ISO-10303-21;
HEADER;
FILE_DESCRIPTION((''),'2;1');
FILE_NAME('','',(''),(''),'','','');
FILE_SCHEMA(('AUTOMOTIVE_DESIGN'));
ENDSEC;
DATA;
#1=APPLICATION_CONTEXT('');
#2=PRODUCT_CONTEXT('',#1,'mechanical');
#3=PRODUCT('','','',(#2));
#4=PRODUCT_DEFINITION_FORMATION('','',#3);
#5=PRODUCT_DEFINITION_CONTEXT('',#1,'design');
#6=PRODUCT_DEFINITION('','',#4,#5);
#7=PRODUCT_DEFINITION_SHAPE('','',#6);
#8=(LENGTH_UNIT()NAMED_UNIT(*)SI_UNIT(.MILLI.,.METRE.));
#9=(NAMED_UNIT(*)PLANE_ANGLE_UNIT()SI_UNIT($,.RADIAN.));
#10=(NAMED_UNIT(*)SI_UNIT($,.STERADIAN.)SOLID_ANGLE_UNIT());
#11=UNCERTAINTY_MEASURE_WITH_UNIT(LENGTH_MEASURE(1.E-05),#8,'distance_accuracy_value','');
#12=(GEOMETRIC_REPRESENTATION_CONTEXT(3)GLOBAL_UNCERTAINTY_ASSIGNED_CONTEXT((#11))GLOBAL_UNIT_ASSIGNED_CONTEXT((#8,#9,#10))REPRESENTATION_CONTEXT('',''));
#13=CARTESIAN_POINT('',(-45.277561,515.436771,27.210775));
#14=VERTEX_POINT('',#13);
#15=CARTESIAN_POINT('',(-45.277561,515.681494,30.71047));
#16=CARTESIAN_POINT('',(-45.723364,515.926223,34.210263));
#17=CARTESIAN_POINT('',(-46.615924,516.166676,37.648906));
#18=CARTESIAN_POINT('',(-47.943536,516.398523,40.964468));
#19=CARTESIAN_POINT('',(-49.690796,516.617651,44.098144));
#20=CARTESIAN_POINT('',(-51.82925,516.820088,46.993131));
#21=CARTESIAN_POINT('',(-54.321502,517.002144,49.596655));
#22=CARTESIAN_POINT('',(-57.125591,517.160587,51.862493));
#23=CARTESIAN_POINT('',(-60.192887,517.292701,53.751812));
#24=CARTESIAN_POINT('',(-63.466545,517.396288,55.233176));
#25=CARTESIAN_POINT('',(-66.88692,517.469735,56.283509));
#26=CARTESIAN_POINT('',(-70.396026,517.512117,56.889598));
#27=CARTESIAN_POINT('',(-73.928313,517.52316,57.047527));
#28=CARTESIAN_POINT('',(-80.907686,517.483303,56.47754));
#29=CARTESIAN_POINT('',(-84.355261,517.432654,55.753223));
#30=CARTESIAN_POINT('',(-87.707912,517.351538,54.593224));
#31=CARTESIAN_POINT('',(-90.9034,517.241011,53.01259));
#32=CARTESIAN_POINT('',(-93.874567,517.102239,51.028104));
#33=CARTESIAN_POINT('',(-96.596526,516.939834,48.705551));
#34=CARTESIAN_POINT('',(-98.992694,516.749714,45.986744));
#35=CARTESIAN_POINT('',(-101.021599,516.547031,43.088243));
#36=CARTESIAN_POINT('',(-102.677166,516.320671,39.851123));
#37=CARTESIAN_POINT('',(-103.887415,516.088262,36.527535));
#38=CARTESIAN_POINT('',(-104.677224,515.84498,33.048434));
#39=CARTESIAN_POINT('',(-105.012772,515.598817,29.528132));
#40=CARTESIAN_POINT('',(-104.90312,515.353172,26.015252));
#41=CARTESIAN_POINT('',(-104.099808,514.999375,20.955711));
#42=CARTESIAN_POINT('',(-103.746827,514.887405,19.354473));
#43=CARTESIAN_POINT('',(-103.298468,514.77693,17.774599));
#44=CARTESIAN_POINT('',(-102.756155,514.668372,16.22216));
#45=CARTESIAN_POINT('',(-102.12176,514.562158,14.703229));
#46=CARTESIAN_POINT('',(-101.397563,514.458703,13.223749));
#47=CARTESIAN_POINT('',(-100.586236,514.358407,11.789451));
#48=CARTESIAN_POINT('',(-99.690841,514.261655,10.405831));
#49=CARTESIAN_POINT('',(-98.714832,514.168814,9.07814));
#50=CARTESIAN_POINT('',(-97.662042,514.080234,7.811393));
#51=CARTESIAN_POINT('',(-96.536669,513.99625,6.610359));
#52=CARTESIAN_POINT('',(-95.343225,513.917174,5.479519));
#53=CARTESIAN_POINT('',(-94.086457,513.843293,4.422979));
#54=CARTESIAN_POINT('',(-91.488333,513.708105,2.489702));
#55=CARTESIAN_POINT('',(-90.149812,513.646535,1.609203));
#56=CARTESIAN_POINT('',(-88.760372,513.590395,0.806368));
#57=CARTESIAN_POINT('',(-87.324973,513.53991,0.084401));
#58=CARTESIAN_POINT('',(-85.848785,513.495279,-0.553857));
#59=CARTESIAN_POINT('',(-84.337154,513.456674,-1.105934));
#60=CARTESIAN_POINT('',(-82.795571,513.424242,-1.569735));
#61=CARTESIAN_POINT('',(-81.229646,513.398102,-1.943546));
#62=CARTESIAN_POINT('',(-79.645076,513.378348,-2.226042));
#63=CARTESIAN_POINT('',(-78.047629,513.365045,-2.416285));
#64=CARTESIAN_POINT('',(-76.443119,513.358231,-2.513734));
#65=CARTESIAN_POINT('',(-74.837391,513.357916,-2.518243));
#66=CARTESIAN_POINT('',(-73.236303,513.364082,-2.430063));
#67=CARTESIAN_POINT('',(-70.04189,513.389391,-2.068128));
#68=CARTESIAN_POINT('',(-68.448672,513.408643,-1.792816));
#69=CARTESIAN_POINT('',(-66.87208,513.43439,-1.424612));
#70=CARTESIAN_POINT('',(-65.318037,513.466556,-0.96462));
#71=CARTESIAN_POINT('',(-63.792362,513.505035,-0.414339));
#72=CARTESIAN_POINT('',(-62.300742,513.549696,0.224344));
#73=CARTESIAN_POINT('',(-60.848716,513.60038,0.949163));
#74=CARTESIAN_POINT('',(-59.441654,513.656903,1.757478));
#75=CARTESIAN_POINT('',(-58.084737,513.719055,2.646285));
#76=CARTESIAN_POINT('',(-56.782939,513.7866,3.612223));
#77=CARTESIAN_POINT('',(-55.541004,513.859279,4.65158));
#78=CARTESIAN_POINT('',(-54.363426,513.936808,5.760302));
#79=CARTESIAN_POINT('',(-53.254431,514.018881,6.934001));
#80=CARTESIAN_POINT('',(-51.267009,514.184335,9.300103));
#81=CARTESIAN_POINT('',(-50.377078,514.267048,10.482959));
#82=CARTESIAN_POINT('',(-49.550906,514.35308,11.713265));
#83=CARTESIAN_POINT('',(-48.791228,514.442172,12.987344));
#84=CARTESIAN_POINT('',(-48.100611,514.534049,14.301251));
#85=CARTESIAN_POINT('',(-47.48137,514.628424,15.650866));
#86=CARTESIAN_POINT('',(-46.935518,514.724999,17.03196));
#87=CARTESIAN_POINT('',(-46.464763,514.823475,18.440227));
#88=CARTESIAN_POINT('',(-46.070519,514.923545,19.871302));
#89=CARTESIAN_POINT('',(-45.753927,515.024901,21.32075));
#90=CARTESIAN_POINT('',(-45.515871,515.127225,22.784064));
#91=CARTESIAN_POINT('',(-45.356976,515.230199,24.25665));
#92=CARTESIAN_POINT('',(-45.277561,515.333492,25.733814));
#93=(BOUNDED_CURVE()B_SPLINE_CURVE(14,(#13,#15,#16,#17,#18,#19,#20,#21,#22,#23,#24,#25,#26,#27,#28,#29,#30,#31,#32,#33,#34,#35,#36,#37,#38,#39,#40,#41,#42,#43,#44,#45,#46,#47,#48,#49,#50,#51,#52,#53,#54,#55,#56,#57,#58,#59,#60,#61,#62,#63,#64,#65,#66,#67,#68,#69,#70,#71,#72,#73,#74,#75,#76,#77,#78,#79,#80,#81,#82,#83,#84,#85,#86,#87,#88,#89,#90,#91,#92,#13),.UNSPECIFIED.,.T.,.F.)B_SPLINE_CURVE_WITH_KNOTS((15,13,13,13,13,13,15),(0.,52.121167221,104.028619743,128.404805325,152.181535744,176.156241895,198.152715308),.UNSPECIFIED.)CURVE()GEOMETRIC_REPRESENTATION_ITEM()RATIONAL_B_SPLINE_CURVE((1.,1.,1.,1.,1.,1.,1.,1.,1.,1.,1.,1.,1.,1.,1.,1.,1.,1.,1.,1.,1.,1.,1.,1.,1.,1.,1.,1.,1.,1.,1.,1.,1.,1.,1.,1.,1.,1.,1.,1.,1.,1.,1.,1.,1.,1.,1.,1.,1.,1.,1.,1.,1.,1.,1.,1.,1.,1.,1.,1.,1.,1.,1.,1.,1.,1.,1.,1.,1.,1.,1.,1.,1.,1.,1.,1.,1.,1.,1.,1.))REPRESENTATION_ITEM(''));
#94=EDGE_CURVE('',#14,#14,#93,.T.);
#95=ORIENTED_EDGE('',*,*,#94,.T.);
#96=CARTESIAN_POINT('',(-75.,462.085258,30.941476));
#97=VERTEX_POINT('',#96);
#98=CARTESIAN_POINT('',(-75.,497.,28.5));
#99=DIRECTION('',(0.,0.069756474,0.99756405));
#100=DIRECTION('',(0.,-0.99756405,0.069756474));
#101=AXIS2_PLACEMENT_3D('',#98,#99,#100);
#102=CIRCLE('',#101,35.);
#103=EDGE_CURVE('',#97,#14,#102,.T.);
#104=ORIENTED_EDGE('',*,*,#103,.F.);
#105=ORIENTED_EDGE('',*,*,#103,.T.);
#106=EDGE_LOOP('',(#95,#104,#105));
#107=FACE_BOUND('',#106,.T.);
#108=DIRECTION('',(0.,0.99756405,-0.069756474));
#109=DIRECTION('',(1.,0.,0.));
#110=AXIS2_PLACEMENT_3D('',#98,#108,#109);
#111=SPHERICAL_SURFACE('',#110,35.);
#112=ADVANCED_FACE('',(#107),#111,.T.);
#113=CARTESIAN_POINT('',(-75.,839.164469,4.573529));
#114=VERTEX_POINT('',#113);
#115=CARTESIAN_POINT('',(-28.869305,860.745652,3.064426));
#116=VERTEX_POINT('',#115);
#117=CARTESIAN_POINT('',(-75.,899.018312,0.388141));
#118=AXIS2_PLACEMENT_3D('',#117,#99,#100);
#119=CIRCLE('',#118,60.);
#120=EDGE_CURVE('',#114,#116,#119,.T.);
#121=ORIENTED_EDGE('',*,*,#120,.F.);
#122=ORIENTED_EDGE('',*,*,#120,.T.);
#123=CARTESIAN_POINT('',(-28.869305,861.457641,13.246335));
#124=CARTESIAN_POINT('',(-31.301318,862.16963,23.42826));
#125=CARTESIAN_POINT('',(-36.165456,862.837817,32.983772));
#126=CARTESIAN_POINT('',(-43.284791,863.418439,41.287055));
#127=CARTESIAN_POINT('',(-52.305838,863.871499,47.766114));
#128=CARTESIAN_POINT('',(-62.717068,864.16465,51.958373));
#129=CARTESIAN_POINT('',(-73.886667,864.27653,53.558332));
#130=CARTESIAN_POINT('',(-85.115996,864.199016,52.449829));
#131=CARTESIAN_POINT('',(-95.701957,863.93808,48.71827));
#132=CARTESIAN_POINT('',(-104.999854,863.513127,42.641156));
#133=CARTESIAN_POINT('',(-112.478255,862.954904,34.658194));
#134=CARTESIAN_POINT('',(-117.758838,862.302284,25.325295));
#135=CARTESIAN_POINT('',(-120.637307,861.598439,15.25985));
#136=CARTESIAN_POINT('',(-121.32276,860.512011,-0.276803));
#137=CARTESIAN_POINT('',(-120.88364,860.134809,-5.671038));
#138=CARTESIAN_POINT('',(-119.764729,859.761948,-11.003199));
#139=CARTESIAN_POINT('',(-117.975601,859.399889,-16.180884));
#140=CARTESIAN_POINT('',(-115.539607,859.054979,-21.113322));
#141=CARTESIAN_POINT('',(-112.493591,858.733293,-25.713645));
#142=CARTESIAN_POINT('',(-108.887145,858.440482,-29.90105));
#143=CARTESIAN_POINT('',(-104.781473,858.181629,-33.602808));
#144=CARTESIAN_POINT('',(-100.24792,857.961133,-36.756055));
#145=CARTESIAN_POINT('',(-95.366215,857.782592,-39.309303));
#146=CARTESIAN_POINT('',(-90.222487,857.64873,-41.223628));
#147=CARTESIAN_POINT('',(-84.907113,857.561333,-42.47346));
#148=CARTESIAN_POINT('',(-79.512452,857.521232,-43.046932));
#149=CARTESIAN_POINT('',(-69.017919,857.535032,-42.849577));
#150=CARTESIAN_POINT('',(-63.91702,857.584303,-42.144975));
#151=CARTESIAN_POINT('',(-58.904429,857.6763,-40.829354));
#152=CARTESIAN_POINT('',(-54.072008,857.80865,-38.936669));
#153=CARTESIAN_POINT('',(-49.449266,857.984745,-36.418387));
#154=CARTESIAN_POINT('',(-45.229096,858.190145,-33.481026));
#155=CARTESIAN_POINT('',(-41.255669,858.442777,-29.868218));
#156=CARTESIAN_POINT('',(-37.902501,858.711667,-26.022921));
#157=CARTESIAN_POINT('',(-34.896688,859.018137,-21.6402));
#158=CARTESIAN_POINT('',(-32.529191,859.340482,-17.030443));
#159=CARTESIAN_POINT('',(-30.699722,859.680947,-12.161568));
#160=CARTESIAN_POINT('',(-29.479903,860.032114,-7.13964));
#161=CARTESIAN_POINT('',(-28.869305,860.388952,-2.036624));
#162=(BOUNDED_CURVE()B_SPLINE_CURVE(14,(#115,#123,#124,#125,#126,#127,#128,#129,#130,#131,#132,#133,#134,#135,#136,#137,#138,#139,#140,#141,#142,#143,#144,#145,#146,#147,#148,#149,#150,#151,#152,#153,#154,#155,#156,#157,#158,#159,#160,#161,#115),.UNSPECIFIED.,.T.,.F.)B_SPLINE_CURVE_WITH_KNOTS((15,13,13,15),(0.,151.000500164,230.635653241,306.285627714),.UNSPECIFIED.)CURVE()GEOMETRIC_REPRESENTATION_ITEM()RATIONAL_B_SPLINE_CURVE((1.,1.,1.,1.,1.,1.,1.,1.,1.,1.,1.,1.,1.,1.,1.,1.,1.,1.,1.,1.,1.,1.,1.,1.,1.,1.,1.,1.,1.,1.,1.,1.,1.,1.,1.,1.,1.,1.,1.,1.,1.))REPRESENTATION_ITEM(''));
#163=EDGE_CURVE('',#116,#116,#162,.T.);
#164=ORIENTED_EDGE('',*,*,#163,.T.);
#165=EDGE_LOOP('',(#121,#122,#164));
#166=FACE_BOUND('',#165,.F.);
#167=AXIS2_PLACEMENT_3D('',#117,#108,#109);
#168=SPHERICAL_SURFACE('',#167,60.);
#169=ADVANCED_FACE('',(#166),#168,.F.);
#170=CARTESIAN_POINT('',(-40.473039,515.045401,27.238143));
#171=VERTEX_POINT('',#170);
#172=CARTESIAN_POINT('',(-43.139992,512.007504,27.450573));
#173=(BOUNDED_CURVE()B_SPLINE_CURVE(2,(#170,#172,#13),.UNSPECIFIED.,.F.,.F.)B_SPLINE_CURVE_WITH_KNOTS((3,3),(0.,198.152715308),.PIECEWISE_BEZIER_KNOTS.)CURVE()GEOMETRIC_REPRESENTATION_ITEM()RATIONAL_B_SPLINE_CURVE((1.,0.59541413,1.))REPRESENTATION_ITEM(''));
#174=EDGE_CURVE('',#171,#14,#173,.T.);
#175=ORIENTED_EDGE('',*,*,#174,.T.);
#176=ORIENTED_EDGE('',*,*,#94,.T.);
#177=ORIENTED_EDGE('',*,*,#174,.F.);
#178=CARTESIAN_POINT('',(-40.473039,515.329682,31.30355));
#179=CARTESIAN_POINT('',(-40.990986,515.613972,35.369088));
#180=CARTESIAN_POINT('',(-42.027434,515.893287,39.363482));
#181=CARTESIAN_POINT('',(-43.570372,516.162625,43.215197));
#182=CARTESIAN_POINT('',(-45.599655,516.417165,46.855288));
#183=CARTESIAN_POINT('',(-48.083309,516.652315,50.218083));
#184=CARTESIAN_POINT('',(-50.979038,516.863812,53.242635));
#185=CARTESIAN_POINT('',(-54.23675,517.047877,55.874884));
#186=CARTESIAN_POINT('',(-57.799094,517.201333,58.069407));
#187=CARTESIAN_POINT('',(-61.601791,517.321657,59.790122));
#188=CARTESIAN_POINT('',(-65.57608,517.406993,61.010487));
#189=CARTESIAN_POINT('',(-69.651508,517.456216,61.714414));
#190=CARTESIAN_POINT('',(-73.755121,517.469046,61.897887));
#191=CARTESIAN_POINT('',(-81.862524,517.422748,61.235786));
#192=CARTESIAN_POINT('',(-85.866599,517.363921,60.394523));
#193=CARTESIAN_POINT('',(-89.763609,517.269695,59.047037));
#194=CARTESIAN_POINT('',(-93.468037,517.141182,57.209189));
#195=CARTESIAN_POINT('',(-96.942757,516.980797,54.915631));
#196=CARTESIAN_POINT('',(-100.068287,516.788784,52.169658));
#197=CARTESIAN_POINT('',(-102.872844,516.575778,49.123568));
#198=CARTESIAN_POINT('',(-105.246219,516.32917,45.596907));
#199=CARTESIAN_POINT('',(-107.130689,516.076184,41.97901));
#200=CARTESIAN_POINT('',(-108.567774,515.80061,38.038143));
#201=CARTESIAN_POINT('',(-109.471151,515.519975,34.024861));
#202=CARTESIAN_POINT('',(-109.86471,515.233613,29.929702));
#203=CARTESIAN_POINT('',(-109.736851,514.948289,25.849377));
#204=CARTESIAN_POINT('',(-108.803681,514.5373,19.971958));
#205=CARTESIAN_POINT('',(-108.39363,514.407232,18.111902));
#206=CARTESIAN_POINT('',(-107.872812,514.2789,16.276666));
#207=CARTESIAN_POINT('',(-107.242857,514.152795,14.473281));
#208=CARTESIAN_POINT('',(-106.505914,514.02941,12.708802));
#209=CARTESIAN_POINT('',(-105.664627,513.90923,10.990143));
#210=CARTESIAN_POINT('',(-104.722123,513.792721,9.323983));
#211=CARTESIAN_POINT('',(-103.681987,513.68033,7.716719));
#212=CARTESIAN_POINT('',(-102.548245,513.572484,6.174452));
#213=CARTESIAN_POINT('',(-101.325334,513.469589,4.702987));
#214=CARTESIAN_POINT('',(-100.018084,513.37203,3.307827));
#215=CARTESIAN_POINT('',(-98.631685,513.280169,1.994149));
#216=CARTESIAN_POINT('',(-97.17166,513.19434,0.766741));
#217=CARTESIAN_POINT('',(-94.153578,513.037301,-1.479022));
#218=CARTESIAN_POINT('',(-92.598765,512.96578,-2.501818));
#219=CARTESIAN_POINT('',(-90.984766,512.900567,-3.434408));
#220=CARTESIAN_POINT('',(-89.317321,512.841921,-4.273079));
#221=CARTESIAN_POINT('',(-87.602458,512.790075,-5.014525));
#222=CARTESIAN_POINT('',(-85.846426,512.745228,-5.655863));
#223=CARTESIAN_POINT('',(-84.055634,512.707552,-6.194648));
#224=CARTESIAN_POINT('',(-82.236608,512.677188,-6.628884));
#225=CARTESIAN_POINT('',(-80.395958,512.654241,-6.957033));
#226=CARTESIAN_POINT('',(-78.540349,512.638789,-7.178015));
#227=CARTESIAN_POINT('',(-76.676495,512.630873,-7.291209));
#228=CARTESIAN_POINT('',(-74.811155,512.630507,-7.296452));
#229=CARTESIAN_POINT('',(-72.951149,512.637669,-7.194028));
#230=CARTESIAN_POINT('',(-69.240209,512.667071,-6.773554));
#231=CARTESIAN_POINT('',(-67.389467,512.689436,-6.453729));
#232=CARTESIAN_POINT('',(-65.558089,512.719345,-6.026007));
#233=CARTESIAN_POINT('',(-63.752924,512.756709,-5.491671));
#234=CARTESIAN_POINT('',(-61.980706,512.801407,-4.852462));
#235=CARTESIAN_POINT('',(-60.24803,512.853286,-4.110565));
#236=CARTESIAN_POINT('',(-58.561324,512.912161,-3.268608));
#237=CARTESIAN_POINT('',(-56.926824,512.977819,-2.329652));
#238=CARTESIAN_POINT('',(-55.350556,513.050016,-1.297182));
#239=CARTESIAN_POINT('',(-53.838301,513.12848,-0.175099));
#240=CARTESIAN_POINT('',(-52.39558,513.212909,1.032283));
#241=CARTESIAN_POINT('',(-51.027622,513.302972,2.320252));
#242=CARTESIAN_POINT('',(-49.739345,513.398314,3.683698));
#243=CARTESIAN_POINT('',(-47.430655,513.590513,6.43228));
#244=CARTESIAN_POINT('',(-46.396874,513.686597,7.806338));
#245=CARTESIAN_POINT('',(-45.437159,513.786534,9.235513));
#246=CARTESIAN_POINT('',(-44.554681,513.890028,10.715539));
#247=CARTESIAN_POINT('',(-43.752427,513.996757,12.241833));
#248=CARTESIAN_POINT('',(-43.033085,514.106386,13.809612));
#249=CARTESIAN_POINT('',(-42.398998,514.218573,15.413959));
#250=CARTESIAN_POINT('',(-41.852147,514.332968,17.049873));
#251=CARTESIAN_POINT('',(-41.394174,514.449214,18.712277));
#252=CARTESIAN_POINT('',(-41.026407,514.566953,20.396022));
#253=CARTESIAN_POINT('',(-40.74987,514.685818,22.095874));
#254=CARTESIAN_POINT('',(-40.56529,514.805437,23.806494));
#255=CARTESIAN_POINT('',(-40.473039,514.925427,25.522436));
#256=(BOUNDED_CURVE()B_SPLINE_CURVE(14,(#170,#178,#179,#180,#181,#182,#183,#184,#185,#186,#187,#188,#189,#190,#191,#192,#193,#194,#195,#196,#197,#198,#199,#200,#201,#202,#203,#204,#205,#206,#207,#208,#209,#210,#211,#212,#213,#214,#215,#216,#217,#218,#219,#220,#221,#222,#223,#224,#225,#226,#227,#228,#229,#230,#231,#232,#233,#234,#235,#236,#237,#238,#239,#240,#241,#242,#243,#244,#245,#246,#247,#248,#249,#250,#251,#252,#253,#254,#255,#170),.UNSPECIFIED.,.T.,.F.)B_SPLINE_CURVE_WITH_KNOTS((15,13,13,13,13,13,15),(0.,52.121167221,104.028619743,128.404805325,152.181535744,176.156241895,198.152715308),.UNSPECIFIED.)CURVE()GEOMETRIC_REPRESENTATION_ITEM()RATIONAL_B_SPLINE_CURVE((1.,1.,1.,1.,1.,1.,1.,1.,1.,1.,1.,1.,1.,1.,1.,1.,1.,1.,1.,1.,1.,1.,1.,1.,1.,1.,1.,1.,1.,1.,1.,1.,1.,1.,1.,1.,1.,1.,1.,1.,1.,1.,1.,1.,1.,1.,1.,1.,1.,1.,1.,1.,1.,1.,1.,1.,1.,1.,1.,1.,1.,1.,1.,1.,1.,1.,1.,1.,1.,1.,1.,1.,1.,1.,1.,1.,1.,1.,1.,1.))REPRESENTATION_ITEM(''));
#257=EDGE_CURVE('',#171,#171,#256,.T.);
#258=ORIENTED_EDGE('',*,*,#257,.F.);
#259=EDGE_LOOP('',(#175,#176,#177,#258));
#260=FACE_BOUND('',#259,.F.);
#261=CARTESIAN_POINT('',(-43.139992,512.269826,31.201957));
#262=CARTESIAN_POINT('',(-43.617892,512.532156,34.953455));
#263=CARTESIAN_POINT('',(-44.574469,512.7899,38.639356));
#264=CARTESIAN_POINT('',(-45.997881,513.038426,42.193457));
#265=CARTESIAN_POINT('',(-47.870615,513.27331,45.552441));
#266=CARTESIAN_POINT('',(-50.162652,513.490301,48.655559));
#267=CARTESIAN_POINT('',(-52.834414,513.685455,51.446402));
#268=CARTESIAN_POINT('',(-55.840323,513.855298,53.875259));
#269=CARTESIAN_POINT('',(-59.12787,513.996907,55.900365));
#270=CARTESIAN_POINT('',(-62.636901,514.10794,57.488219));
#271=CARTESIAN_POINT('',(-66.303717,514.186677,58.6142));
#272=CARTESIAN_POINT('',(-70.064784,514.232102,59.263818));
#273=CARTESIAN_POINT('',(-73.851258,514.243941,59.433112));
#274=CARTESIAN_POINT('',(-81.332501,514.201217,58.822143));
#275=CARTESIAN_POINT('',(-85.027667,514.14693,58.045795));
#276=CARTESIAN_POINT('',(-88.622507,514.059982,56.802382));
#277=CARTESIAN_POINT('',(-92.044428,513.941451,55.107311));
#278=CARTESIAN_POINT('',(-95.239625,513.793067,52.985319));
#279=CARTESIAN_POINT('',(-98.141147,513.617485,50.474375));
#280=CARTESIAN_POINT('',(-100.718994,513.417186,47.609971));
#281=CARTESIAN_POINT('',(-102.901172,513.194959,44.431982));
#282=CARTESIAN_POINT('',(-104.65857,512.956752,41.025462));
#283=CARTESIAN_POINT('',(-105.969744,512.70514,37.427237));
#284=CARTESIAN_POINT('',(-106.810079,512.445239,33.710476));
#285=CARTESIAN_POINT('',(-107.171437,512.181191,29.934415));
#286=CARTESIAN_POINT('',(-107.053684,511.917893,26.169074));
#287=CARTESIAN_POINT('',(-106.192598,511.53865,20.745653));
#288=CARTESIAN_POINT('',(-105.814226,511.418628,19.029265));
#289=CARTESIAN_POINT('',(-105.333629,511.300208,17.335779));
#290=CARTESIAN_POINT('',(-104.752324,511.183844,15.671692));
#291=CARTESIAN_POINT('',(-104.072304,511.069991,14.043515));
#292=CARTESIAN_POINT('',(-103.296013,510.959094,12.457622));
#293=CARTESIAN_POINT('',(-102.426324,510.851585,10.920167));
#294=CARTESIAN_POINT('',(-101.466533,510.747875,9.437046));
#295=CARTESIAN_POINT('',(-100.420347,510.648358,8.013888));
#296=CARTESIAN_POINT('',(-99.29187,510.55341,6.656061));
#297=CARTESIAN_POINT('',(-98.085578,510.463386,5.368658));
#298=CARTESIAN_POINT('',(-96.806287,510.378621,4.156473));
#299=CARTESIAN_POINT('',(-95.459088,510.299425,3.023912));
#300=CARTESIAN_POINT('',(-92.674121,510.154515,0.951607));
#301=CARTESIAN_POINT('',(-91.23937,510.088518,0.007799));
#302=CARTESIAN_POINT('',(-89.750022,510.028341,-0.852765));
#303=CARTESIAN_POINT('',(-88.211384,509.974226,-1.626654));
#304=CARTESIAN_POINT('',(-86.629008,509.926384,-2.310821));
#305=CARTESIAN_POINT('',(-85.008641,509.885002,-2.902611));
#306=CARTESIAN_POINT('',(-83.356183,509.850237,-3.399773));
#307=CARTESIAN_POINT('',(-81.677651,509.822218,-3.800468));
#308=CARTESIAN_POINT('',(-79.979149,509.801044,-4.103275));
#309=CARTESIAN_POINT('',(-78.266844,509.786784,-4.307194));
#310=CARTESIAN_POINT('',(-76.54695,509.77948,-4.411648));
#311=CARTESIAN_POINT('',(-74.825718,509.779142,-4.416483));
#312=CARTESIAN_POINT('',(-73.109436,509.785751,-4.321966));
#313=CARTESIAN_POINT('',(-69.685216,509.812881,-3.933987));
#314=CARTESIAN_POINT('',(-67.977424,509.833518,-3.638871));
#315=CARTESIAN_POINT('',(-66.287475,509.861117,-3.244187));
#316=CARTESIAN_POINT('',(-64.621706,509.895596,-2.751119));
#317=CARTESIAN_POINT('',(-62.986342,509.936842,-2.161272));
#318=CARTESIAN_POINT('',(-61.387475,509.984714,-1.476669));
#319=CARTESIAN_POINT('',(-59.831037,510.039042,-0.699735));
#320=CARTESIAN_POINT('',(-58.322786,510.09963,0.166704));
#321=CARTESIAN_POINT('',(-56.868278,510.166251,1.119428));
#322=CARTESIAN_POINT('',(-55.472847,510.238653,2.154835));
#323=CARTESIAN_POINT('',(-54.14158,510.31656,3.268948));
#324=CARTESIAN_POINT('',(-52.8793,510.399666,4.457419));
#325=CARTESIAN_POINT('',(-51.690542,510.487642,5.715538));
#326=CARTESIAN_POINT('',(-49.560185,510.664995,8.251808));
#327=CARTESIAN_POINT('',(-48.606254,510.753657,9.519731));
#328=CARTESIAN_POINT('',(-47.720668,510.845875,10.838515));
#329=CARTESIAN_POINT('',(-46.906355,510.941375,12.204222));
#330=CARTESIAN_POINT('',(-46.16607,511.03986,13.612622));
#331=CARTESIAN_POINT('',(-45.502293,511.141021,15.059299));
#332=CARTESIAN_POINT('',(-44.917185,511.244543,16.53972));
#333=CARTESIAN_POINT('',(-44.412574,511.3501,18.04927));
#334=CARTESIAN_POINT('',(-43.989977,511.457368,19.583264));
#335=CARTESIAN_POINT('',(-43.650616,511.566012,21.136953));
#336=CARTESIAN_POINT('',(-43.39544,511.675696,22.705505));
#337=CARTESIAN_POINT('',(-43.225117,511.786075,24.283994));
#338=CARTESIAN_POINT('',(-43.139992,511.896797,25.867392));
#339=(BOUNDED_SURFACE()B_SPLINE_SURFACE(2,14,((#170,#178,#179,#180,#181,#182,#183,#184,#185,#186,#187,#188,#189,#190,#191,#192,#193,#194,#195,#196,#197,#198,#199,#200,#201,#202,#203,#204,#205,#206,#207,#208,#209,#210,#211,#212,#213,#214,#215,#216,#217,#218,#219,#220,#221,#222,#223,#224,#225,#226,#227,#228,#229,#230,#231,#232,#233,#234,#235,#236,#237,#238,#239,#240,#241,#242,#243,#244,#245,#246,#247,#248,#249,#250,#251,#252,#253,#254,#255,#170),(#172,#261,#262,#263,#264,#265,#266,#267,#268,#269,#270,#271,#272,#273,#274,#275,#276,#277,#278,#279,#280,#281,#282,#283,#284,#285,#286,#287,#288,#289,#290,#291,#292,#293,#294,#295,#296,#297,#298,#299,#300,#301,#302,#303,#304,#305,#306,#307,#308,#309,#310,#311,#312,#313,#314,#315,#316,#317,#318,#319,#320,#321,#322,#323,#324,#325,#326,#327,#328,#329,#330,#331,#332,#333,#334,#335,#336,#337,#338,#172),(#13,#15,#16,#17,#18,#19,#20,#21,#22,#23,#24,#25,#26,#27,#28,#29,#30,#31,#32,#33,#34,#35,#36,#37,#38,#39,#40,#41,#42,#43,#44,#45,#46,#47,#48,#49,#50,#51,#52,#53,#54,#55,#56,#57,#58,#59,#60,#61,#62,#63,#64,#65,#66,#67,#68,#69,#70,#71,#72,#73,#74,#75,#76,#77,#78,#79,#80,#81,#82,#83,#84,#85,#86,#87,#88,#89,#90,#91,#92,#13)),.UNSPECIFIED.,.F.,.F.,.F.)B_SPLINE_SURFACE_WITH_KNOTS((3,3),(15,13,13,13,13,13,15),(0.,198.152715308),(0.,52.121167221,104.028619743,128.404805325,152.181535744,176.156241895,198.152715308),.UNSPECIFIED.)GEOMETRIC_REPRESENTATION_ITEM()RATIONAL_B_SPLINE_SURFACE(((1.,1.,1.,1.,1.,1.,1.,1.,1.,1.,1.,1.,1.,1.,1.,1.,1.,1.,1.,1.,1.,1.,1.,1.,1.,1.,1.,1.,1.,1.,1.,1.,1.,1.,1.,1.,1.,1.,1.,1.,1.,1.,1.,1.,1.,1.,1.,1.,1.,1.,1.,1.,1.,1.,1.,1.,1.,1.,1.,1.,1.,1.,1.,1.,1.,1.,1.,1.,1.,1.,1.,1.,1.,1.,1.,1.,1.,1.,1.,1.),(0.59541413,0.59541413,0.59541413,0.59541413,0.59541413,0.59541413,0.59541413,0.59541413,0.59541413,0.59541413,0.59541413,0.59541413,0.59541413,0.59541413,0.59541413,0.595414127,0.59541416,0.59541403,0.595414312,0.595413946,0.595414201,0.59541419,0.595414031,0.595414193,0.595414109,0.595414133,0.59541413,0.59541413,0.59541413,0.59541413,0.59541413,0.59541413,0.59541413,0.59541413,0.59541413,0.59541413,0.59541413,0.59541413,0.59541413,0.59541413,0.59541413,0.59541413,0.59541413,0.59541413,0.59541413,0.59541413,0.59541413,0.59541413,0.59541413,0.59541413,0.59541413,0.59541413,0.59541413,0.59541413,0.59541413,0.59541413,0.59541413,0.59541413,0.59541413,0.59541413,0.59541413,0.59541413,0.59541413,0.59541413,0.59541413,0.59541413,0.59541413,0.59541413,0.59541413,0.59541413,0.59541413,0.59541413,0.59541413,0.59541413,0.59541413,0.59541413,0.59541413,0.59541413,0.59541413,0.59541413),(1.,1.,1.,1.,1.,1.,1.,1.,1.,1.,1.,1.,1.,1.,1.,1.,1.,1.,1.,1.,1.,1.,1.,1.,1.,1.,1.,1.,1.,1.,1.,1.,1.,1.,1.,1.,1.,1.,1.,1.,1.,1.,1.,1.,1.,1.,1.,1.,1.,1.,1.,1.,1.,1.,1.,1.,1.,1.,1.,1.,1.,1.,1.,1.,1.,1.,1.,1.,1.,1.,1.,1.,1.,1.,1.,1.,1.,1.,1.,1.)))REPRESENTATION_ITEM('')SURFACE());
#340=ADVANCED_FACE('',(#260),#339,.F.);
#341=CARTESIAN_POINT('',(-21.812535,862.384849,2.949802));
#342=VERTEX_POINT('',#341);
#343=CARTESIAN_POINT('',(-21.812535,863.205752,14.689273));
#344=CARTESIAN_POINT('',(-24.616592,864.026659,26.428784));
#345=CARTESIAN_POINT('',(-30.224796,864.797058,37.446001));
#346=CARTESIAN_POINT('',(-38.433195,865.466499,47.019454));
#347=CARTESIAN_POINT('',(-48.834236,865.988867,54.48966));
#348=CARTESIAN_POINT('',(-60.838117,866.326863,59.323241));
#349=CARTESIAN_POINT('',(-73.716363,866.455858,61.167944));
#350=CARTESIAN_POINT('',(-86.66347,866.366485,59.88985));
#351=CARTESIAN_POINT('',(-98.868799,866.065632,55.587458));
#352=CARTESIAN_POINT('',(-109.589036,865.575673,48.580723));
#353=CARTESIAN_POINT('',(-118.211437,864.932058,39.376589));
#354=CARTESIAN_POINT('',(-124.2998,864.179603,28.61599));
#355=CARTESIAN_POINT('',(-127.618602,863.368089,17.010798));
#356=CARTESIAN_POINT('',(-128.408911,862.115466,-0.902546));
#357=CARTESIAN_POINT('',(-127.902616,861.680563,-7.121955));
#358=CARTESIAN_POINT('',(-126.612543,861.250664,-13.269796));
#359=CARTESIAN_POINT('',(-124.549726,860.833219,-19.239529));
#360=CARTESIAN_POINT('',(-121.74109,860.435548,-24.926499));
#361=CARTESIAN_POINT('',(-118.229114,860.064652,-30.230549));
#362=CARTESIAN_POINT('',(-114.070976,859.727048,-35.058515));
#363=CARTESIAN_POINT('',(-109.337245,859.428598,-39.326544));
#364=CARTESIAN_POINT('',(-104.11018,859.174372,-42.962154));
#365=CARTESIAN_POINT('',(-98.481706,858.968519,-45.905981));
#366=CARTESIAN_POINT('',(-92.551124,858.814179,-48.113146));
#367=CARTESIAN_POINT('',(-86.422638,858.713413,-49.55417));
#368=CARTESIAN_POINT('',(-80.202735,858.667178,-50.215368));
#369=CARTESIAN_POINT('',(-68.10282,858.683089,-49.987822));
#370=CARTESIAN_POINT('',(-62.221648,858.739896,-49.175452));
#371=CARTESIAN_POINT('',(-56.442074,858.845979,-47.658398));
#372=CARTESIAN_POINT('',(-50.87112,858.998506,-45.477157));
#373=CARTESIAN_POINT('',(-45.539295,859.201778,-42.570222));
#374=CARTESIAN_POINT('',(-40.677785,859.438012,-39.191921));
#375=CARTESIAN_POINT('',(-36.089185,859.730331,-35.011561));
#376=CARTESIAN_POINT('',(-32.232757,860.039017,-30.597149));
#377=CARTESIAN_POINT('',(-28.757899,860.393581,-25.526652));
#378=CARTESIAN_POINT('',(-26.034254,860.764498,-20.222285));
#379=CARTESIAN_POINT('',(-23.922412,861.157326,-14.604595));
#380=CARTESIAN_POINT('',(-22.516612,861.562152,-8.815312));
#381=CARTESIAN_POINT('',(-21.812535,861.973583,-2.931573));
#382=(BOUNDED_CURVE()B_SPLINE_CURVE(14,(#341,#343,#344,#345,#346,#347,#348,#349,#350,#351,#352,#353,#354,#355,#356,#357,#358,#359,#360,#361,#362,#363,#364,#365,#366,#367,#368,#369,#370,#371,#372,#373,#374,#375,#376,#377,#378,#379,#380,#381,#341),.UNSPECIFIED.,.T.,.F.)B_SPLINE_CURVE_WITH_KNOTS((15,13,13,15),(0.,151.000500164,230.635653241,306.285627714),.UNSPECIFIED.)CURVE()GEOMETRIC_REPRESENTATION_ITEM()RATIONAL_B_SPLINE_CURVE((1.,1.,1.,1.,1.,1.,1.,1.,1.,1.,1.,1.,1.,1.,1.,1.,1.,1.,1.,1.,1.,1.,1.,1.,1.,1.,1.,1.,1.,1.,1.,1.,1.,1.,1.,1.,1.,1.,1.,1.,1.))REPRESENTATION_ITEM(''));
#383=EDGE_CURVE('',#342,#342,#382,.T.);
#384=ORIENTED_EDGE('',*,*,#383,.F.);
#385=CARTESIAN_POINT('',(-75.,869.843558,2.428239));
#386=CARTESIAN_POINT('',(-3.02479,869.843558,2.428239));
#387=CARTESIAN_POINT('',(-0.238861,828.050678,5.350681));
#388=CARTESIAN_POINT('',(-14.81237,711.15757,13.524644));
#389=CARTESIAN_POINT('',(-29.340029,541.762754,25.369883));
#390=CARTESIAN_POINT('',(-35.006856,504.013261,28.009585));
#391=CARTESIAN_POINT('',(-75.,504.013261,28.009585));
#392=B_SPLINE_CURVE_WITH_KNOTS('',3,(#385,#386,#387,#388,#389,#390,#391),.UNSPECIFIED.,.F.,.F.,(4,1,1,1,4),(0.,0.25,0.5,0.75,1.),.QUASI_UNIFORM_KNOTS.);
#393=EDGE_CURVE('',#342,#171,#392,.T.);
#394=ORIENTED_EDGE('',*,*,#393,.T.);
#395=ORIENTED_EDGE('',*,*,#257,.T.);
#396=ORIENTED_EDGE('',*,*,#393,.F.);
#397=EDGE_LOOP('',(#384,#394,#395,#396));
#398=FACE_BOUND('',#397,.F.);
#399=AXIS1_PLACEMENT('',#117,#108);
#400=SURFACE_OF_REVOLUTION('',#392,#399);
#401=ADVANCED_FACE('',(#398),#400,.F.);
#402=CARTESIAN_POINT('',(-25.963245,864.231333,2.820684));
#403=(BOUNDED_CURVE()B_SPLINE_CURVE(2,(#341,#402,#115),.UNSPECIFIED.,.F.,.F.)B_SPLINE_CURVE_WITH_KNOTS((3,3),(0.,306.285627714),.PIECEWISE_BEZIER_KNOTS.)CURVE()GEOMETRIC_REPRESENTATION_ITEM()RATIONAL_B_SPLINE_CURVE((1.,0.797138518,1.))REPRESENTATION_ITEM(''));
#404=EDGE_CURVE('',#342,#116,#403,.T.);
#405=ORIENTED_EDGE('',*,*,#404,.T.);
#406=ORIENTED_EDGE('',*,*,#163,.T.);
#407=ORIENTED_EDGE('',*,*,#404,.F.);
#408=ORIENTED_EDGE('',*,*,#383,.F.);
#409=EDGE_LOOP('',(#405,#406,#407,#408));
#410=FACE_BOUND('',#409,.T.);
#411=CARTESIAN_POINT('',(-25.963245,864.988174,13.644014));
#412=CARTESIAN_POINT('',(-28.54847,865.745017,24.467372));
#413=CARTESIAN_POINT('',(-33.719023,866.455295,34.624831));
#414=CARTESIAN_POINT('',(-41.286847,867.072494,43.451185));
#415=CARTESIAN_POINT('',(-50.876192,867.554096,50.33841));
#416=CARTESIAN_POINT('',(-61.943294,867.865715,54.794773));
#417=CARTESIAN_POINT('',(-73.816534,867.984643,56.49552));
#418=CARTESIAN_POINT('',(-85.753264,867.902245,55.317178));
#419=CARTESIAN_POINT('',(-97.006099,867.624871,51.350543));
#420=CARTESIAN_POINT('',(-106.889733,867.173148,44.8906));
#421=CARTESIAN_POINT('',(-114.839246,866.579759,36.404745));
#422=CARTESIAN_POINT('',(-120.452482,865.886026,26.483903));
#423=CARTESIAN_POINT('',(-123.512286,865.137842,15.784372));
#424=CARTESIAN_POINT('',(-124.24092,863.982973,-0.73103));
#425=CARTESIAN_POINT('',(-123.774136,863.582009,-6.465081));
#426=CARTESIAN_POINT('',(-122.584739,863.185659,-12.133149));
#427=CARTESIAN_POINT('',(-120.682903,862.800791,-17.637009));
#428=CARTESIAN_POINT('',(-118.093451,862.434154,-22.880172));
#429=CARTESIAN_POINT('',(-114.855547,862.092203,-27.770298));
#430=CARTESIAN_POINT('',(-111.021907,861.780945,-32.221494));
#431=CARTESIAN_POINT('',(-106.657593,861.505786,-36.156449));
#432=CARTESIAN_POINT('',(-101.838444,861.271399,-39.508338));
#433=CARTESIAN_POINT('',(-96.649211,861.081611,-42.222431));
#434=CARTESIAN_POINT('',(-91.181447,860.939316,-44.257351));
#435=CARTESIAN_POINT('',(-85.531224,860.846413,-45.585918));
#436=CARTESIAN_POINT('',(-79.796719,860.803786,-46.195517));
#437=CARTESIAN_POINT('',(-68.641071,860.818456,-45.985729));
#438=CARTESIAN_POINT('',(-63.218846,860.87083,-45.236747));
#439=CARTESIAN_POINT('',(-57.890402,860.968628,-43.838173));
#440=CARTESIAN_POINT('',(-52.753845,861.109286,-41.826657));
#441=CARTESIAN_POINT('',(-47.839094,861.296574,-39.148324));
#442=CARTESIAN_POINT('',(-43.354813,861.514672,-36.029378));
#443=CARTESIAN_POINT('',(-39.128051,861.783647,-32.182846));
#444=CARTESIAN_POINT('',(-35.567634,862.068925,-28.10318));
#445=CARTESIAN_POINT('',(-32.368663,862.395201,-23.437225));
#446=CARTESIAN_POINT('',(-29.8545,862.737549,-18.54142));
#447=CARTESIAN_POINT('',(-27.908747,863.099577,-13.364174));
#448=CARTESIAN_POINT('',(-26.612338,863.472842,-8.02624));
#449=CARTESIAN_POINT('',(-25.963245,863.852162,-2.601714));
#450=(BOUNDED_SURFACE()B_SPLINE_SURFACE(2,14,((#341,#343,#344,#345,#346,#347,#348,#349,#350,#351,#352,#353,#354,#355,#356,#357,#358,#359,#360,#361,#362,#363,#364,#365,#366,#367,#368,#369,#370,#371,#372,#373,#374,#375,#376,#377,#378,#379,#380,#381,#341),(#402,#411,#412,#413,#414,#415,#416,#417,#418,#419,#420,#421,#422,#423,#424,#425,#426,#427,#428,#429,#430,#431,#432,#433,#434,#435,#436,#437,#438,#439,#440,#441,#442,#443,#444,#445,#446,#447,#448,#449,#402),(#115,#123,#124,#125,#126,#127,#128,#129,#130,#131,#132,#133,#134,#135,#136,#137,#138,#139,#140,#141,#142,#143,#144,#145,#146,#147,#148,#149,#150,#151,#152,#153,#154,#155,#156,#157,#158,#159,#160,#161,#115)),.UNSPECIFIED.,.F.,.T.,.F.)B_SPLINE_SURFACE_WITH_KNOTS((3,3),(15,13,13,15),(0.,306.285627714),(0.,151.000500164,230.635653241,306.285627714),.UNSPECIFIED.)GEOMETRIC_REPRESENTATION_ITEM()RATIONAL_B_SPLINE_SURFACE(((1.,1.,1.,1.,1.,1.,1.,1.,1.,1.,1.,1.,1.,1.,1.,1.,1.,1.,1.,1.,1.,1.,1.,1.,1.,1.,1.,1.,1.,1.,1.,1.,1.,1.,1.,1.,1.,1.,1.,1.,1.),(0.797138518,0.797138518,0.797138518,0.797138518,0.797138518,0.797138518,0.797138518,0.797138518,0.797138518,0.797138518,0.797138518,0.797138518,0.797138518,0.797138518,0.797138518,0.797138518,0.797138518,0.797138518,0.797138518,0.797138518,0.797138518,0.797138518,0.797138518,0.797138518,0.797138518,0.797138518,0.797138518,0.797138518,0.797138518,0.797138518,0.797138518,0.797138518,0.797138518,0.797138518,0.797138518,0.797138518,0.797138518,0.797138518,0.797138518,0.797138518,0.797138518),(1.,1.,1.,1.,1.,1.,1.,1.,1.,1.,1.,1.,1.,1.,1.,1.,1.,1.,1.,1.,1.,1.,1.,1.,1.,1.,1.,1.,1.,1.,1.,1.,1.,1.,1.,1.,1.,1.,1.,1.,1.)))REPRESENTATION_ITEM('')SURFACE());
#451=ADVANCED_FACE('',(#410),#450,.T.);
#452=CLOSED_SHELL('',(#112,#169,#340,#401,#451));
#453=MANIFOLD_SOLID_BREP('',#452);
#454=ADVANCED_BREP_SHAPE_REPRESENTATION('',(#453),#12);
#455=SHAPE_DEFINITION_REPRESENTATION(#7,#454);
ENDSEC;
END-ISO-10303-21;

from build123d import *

# Parameters (mm, degrees)
FILLET075_R             = 6
FILLET076_R             = 3
BODY046_PLACEMENT_ANGLE = 4


with BuildPart() as part:
    # Sketch153 → Revolution079 (revolve)
    with BuildSketch(Plane.XY):
        with BuildLine():
            Line((0, -29.245996), (0, -395.969613))
            add(Edge.make_bspline(
                [(0, -29.245996), (71.97521, -29.245996), (74.761139, -71.14093), (60.18763, -188.319479), (45.659971, -358.12794), (39.993144, -395.969613), (0, -395.969613)],
                knots=[0, 0, 0, 0, 0.25, 0.5, 0.75, 1, 1, 1, 1], degree=3))
        make_face()
    revolve(axis=Axis((0, 0, 0), (0, 1, 0)))

    # Sketch154 → Groove073 (revolve, cut)
    with BuildSketch(Plane.XY):
        with BuildLine():
            Line((0, 60), (0, -60))
            ThreePointArc((0, -60), (60, 0), (0, 60))
        make_face()
    revolve(axis=Axis((0, 0, 0), (0, 1, 0)), mode=Mode.SUBTRACT)

    # Fillet075
    fillet075_edges = [part.edges().sort_by_distance(p)[0] for p in [
        (-48.746872, -34.982031, 0),
    ]]
    fillet(fillet075_edges, radius=FILLET075_R)

    # Sketch155 → Groove074 (revolve, cut)
    with BuildSketch(Plane.XY):
        with BuildLine():
            Line((0, -368), (0, -438))
            ThreePointArc((0, -438), (35, -403), (0, -368))
        make_face()
    revolve(axis=Axis((0, 0, 0), (0, 1, 0)), mode=Mode.SUBTRACT)

    # Fillet076
    fillet076_edges = [part.edges().sort_by_distance(p)[0] for p in [
        (-31.536984, -387.820454, 0),
    ]]
    fillet(fillet076_edges, radius=FILLET076_R)

    # Sketch155 → Revolution080 (revolve)
    with BuildSketch(Plane.XY):
        with BuildLine():
            Line((0, -368), (0, -438))
            ThreePointArc((0, -438), (35, -403), (0, -368))
        make_face()
    revolve(axis=Axis((0, 0, 0), (0, 1, 0)))


with BuildPart() as part_1:
    # Body046 placement: moved
    add(part.part.moved(Location((-75, 899.018312, 0.388141))).rotate(Axis((-75, 899.018312, 0.388141), (-1, 0, 0)), BODY046_PLACEMENT_ANGLE))


solid = part_1.part
